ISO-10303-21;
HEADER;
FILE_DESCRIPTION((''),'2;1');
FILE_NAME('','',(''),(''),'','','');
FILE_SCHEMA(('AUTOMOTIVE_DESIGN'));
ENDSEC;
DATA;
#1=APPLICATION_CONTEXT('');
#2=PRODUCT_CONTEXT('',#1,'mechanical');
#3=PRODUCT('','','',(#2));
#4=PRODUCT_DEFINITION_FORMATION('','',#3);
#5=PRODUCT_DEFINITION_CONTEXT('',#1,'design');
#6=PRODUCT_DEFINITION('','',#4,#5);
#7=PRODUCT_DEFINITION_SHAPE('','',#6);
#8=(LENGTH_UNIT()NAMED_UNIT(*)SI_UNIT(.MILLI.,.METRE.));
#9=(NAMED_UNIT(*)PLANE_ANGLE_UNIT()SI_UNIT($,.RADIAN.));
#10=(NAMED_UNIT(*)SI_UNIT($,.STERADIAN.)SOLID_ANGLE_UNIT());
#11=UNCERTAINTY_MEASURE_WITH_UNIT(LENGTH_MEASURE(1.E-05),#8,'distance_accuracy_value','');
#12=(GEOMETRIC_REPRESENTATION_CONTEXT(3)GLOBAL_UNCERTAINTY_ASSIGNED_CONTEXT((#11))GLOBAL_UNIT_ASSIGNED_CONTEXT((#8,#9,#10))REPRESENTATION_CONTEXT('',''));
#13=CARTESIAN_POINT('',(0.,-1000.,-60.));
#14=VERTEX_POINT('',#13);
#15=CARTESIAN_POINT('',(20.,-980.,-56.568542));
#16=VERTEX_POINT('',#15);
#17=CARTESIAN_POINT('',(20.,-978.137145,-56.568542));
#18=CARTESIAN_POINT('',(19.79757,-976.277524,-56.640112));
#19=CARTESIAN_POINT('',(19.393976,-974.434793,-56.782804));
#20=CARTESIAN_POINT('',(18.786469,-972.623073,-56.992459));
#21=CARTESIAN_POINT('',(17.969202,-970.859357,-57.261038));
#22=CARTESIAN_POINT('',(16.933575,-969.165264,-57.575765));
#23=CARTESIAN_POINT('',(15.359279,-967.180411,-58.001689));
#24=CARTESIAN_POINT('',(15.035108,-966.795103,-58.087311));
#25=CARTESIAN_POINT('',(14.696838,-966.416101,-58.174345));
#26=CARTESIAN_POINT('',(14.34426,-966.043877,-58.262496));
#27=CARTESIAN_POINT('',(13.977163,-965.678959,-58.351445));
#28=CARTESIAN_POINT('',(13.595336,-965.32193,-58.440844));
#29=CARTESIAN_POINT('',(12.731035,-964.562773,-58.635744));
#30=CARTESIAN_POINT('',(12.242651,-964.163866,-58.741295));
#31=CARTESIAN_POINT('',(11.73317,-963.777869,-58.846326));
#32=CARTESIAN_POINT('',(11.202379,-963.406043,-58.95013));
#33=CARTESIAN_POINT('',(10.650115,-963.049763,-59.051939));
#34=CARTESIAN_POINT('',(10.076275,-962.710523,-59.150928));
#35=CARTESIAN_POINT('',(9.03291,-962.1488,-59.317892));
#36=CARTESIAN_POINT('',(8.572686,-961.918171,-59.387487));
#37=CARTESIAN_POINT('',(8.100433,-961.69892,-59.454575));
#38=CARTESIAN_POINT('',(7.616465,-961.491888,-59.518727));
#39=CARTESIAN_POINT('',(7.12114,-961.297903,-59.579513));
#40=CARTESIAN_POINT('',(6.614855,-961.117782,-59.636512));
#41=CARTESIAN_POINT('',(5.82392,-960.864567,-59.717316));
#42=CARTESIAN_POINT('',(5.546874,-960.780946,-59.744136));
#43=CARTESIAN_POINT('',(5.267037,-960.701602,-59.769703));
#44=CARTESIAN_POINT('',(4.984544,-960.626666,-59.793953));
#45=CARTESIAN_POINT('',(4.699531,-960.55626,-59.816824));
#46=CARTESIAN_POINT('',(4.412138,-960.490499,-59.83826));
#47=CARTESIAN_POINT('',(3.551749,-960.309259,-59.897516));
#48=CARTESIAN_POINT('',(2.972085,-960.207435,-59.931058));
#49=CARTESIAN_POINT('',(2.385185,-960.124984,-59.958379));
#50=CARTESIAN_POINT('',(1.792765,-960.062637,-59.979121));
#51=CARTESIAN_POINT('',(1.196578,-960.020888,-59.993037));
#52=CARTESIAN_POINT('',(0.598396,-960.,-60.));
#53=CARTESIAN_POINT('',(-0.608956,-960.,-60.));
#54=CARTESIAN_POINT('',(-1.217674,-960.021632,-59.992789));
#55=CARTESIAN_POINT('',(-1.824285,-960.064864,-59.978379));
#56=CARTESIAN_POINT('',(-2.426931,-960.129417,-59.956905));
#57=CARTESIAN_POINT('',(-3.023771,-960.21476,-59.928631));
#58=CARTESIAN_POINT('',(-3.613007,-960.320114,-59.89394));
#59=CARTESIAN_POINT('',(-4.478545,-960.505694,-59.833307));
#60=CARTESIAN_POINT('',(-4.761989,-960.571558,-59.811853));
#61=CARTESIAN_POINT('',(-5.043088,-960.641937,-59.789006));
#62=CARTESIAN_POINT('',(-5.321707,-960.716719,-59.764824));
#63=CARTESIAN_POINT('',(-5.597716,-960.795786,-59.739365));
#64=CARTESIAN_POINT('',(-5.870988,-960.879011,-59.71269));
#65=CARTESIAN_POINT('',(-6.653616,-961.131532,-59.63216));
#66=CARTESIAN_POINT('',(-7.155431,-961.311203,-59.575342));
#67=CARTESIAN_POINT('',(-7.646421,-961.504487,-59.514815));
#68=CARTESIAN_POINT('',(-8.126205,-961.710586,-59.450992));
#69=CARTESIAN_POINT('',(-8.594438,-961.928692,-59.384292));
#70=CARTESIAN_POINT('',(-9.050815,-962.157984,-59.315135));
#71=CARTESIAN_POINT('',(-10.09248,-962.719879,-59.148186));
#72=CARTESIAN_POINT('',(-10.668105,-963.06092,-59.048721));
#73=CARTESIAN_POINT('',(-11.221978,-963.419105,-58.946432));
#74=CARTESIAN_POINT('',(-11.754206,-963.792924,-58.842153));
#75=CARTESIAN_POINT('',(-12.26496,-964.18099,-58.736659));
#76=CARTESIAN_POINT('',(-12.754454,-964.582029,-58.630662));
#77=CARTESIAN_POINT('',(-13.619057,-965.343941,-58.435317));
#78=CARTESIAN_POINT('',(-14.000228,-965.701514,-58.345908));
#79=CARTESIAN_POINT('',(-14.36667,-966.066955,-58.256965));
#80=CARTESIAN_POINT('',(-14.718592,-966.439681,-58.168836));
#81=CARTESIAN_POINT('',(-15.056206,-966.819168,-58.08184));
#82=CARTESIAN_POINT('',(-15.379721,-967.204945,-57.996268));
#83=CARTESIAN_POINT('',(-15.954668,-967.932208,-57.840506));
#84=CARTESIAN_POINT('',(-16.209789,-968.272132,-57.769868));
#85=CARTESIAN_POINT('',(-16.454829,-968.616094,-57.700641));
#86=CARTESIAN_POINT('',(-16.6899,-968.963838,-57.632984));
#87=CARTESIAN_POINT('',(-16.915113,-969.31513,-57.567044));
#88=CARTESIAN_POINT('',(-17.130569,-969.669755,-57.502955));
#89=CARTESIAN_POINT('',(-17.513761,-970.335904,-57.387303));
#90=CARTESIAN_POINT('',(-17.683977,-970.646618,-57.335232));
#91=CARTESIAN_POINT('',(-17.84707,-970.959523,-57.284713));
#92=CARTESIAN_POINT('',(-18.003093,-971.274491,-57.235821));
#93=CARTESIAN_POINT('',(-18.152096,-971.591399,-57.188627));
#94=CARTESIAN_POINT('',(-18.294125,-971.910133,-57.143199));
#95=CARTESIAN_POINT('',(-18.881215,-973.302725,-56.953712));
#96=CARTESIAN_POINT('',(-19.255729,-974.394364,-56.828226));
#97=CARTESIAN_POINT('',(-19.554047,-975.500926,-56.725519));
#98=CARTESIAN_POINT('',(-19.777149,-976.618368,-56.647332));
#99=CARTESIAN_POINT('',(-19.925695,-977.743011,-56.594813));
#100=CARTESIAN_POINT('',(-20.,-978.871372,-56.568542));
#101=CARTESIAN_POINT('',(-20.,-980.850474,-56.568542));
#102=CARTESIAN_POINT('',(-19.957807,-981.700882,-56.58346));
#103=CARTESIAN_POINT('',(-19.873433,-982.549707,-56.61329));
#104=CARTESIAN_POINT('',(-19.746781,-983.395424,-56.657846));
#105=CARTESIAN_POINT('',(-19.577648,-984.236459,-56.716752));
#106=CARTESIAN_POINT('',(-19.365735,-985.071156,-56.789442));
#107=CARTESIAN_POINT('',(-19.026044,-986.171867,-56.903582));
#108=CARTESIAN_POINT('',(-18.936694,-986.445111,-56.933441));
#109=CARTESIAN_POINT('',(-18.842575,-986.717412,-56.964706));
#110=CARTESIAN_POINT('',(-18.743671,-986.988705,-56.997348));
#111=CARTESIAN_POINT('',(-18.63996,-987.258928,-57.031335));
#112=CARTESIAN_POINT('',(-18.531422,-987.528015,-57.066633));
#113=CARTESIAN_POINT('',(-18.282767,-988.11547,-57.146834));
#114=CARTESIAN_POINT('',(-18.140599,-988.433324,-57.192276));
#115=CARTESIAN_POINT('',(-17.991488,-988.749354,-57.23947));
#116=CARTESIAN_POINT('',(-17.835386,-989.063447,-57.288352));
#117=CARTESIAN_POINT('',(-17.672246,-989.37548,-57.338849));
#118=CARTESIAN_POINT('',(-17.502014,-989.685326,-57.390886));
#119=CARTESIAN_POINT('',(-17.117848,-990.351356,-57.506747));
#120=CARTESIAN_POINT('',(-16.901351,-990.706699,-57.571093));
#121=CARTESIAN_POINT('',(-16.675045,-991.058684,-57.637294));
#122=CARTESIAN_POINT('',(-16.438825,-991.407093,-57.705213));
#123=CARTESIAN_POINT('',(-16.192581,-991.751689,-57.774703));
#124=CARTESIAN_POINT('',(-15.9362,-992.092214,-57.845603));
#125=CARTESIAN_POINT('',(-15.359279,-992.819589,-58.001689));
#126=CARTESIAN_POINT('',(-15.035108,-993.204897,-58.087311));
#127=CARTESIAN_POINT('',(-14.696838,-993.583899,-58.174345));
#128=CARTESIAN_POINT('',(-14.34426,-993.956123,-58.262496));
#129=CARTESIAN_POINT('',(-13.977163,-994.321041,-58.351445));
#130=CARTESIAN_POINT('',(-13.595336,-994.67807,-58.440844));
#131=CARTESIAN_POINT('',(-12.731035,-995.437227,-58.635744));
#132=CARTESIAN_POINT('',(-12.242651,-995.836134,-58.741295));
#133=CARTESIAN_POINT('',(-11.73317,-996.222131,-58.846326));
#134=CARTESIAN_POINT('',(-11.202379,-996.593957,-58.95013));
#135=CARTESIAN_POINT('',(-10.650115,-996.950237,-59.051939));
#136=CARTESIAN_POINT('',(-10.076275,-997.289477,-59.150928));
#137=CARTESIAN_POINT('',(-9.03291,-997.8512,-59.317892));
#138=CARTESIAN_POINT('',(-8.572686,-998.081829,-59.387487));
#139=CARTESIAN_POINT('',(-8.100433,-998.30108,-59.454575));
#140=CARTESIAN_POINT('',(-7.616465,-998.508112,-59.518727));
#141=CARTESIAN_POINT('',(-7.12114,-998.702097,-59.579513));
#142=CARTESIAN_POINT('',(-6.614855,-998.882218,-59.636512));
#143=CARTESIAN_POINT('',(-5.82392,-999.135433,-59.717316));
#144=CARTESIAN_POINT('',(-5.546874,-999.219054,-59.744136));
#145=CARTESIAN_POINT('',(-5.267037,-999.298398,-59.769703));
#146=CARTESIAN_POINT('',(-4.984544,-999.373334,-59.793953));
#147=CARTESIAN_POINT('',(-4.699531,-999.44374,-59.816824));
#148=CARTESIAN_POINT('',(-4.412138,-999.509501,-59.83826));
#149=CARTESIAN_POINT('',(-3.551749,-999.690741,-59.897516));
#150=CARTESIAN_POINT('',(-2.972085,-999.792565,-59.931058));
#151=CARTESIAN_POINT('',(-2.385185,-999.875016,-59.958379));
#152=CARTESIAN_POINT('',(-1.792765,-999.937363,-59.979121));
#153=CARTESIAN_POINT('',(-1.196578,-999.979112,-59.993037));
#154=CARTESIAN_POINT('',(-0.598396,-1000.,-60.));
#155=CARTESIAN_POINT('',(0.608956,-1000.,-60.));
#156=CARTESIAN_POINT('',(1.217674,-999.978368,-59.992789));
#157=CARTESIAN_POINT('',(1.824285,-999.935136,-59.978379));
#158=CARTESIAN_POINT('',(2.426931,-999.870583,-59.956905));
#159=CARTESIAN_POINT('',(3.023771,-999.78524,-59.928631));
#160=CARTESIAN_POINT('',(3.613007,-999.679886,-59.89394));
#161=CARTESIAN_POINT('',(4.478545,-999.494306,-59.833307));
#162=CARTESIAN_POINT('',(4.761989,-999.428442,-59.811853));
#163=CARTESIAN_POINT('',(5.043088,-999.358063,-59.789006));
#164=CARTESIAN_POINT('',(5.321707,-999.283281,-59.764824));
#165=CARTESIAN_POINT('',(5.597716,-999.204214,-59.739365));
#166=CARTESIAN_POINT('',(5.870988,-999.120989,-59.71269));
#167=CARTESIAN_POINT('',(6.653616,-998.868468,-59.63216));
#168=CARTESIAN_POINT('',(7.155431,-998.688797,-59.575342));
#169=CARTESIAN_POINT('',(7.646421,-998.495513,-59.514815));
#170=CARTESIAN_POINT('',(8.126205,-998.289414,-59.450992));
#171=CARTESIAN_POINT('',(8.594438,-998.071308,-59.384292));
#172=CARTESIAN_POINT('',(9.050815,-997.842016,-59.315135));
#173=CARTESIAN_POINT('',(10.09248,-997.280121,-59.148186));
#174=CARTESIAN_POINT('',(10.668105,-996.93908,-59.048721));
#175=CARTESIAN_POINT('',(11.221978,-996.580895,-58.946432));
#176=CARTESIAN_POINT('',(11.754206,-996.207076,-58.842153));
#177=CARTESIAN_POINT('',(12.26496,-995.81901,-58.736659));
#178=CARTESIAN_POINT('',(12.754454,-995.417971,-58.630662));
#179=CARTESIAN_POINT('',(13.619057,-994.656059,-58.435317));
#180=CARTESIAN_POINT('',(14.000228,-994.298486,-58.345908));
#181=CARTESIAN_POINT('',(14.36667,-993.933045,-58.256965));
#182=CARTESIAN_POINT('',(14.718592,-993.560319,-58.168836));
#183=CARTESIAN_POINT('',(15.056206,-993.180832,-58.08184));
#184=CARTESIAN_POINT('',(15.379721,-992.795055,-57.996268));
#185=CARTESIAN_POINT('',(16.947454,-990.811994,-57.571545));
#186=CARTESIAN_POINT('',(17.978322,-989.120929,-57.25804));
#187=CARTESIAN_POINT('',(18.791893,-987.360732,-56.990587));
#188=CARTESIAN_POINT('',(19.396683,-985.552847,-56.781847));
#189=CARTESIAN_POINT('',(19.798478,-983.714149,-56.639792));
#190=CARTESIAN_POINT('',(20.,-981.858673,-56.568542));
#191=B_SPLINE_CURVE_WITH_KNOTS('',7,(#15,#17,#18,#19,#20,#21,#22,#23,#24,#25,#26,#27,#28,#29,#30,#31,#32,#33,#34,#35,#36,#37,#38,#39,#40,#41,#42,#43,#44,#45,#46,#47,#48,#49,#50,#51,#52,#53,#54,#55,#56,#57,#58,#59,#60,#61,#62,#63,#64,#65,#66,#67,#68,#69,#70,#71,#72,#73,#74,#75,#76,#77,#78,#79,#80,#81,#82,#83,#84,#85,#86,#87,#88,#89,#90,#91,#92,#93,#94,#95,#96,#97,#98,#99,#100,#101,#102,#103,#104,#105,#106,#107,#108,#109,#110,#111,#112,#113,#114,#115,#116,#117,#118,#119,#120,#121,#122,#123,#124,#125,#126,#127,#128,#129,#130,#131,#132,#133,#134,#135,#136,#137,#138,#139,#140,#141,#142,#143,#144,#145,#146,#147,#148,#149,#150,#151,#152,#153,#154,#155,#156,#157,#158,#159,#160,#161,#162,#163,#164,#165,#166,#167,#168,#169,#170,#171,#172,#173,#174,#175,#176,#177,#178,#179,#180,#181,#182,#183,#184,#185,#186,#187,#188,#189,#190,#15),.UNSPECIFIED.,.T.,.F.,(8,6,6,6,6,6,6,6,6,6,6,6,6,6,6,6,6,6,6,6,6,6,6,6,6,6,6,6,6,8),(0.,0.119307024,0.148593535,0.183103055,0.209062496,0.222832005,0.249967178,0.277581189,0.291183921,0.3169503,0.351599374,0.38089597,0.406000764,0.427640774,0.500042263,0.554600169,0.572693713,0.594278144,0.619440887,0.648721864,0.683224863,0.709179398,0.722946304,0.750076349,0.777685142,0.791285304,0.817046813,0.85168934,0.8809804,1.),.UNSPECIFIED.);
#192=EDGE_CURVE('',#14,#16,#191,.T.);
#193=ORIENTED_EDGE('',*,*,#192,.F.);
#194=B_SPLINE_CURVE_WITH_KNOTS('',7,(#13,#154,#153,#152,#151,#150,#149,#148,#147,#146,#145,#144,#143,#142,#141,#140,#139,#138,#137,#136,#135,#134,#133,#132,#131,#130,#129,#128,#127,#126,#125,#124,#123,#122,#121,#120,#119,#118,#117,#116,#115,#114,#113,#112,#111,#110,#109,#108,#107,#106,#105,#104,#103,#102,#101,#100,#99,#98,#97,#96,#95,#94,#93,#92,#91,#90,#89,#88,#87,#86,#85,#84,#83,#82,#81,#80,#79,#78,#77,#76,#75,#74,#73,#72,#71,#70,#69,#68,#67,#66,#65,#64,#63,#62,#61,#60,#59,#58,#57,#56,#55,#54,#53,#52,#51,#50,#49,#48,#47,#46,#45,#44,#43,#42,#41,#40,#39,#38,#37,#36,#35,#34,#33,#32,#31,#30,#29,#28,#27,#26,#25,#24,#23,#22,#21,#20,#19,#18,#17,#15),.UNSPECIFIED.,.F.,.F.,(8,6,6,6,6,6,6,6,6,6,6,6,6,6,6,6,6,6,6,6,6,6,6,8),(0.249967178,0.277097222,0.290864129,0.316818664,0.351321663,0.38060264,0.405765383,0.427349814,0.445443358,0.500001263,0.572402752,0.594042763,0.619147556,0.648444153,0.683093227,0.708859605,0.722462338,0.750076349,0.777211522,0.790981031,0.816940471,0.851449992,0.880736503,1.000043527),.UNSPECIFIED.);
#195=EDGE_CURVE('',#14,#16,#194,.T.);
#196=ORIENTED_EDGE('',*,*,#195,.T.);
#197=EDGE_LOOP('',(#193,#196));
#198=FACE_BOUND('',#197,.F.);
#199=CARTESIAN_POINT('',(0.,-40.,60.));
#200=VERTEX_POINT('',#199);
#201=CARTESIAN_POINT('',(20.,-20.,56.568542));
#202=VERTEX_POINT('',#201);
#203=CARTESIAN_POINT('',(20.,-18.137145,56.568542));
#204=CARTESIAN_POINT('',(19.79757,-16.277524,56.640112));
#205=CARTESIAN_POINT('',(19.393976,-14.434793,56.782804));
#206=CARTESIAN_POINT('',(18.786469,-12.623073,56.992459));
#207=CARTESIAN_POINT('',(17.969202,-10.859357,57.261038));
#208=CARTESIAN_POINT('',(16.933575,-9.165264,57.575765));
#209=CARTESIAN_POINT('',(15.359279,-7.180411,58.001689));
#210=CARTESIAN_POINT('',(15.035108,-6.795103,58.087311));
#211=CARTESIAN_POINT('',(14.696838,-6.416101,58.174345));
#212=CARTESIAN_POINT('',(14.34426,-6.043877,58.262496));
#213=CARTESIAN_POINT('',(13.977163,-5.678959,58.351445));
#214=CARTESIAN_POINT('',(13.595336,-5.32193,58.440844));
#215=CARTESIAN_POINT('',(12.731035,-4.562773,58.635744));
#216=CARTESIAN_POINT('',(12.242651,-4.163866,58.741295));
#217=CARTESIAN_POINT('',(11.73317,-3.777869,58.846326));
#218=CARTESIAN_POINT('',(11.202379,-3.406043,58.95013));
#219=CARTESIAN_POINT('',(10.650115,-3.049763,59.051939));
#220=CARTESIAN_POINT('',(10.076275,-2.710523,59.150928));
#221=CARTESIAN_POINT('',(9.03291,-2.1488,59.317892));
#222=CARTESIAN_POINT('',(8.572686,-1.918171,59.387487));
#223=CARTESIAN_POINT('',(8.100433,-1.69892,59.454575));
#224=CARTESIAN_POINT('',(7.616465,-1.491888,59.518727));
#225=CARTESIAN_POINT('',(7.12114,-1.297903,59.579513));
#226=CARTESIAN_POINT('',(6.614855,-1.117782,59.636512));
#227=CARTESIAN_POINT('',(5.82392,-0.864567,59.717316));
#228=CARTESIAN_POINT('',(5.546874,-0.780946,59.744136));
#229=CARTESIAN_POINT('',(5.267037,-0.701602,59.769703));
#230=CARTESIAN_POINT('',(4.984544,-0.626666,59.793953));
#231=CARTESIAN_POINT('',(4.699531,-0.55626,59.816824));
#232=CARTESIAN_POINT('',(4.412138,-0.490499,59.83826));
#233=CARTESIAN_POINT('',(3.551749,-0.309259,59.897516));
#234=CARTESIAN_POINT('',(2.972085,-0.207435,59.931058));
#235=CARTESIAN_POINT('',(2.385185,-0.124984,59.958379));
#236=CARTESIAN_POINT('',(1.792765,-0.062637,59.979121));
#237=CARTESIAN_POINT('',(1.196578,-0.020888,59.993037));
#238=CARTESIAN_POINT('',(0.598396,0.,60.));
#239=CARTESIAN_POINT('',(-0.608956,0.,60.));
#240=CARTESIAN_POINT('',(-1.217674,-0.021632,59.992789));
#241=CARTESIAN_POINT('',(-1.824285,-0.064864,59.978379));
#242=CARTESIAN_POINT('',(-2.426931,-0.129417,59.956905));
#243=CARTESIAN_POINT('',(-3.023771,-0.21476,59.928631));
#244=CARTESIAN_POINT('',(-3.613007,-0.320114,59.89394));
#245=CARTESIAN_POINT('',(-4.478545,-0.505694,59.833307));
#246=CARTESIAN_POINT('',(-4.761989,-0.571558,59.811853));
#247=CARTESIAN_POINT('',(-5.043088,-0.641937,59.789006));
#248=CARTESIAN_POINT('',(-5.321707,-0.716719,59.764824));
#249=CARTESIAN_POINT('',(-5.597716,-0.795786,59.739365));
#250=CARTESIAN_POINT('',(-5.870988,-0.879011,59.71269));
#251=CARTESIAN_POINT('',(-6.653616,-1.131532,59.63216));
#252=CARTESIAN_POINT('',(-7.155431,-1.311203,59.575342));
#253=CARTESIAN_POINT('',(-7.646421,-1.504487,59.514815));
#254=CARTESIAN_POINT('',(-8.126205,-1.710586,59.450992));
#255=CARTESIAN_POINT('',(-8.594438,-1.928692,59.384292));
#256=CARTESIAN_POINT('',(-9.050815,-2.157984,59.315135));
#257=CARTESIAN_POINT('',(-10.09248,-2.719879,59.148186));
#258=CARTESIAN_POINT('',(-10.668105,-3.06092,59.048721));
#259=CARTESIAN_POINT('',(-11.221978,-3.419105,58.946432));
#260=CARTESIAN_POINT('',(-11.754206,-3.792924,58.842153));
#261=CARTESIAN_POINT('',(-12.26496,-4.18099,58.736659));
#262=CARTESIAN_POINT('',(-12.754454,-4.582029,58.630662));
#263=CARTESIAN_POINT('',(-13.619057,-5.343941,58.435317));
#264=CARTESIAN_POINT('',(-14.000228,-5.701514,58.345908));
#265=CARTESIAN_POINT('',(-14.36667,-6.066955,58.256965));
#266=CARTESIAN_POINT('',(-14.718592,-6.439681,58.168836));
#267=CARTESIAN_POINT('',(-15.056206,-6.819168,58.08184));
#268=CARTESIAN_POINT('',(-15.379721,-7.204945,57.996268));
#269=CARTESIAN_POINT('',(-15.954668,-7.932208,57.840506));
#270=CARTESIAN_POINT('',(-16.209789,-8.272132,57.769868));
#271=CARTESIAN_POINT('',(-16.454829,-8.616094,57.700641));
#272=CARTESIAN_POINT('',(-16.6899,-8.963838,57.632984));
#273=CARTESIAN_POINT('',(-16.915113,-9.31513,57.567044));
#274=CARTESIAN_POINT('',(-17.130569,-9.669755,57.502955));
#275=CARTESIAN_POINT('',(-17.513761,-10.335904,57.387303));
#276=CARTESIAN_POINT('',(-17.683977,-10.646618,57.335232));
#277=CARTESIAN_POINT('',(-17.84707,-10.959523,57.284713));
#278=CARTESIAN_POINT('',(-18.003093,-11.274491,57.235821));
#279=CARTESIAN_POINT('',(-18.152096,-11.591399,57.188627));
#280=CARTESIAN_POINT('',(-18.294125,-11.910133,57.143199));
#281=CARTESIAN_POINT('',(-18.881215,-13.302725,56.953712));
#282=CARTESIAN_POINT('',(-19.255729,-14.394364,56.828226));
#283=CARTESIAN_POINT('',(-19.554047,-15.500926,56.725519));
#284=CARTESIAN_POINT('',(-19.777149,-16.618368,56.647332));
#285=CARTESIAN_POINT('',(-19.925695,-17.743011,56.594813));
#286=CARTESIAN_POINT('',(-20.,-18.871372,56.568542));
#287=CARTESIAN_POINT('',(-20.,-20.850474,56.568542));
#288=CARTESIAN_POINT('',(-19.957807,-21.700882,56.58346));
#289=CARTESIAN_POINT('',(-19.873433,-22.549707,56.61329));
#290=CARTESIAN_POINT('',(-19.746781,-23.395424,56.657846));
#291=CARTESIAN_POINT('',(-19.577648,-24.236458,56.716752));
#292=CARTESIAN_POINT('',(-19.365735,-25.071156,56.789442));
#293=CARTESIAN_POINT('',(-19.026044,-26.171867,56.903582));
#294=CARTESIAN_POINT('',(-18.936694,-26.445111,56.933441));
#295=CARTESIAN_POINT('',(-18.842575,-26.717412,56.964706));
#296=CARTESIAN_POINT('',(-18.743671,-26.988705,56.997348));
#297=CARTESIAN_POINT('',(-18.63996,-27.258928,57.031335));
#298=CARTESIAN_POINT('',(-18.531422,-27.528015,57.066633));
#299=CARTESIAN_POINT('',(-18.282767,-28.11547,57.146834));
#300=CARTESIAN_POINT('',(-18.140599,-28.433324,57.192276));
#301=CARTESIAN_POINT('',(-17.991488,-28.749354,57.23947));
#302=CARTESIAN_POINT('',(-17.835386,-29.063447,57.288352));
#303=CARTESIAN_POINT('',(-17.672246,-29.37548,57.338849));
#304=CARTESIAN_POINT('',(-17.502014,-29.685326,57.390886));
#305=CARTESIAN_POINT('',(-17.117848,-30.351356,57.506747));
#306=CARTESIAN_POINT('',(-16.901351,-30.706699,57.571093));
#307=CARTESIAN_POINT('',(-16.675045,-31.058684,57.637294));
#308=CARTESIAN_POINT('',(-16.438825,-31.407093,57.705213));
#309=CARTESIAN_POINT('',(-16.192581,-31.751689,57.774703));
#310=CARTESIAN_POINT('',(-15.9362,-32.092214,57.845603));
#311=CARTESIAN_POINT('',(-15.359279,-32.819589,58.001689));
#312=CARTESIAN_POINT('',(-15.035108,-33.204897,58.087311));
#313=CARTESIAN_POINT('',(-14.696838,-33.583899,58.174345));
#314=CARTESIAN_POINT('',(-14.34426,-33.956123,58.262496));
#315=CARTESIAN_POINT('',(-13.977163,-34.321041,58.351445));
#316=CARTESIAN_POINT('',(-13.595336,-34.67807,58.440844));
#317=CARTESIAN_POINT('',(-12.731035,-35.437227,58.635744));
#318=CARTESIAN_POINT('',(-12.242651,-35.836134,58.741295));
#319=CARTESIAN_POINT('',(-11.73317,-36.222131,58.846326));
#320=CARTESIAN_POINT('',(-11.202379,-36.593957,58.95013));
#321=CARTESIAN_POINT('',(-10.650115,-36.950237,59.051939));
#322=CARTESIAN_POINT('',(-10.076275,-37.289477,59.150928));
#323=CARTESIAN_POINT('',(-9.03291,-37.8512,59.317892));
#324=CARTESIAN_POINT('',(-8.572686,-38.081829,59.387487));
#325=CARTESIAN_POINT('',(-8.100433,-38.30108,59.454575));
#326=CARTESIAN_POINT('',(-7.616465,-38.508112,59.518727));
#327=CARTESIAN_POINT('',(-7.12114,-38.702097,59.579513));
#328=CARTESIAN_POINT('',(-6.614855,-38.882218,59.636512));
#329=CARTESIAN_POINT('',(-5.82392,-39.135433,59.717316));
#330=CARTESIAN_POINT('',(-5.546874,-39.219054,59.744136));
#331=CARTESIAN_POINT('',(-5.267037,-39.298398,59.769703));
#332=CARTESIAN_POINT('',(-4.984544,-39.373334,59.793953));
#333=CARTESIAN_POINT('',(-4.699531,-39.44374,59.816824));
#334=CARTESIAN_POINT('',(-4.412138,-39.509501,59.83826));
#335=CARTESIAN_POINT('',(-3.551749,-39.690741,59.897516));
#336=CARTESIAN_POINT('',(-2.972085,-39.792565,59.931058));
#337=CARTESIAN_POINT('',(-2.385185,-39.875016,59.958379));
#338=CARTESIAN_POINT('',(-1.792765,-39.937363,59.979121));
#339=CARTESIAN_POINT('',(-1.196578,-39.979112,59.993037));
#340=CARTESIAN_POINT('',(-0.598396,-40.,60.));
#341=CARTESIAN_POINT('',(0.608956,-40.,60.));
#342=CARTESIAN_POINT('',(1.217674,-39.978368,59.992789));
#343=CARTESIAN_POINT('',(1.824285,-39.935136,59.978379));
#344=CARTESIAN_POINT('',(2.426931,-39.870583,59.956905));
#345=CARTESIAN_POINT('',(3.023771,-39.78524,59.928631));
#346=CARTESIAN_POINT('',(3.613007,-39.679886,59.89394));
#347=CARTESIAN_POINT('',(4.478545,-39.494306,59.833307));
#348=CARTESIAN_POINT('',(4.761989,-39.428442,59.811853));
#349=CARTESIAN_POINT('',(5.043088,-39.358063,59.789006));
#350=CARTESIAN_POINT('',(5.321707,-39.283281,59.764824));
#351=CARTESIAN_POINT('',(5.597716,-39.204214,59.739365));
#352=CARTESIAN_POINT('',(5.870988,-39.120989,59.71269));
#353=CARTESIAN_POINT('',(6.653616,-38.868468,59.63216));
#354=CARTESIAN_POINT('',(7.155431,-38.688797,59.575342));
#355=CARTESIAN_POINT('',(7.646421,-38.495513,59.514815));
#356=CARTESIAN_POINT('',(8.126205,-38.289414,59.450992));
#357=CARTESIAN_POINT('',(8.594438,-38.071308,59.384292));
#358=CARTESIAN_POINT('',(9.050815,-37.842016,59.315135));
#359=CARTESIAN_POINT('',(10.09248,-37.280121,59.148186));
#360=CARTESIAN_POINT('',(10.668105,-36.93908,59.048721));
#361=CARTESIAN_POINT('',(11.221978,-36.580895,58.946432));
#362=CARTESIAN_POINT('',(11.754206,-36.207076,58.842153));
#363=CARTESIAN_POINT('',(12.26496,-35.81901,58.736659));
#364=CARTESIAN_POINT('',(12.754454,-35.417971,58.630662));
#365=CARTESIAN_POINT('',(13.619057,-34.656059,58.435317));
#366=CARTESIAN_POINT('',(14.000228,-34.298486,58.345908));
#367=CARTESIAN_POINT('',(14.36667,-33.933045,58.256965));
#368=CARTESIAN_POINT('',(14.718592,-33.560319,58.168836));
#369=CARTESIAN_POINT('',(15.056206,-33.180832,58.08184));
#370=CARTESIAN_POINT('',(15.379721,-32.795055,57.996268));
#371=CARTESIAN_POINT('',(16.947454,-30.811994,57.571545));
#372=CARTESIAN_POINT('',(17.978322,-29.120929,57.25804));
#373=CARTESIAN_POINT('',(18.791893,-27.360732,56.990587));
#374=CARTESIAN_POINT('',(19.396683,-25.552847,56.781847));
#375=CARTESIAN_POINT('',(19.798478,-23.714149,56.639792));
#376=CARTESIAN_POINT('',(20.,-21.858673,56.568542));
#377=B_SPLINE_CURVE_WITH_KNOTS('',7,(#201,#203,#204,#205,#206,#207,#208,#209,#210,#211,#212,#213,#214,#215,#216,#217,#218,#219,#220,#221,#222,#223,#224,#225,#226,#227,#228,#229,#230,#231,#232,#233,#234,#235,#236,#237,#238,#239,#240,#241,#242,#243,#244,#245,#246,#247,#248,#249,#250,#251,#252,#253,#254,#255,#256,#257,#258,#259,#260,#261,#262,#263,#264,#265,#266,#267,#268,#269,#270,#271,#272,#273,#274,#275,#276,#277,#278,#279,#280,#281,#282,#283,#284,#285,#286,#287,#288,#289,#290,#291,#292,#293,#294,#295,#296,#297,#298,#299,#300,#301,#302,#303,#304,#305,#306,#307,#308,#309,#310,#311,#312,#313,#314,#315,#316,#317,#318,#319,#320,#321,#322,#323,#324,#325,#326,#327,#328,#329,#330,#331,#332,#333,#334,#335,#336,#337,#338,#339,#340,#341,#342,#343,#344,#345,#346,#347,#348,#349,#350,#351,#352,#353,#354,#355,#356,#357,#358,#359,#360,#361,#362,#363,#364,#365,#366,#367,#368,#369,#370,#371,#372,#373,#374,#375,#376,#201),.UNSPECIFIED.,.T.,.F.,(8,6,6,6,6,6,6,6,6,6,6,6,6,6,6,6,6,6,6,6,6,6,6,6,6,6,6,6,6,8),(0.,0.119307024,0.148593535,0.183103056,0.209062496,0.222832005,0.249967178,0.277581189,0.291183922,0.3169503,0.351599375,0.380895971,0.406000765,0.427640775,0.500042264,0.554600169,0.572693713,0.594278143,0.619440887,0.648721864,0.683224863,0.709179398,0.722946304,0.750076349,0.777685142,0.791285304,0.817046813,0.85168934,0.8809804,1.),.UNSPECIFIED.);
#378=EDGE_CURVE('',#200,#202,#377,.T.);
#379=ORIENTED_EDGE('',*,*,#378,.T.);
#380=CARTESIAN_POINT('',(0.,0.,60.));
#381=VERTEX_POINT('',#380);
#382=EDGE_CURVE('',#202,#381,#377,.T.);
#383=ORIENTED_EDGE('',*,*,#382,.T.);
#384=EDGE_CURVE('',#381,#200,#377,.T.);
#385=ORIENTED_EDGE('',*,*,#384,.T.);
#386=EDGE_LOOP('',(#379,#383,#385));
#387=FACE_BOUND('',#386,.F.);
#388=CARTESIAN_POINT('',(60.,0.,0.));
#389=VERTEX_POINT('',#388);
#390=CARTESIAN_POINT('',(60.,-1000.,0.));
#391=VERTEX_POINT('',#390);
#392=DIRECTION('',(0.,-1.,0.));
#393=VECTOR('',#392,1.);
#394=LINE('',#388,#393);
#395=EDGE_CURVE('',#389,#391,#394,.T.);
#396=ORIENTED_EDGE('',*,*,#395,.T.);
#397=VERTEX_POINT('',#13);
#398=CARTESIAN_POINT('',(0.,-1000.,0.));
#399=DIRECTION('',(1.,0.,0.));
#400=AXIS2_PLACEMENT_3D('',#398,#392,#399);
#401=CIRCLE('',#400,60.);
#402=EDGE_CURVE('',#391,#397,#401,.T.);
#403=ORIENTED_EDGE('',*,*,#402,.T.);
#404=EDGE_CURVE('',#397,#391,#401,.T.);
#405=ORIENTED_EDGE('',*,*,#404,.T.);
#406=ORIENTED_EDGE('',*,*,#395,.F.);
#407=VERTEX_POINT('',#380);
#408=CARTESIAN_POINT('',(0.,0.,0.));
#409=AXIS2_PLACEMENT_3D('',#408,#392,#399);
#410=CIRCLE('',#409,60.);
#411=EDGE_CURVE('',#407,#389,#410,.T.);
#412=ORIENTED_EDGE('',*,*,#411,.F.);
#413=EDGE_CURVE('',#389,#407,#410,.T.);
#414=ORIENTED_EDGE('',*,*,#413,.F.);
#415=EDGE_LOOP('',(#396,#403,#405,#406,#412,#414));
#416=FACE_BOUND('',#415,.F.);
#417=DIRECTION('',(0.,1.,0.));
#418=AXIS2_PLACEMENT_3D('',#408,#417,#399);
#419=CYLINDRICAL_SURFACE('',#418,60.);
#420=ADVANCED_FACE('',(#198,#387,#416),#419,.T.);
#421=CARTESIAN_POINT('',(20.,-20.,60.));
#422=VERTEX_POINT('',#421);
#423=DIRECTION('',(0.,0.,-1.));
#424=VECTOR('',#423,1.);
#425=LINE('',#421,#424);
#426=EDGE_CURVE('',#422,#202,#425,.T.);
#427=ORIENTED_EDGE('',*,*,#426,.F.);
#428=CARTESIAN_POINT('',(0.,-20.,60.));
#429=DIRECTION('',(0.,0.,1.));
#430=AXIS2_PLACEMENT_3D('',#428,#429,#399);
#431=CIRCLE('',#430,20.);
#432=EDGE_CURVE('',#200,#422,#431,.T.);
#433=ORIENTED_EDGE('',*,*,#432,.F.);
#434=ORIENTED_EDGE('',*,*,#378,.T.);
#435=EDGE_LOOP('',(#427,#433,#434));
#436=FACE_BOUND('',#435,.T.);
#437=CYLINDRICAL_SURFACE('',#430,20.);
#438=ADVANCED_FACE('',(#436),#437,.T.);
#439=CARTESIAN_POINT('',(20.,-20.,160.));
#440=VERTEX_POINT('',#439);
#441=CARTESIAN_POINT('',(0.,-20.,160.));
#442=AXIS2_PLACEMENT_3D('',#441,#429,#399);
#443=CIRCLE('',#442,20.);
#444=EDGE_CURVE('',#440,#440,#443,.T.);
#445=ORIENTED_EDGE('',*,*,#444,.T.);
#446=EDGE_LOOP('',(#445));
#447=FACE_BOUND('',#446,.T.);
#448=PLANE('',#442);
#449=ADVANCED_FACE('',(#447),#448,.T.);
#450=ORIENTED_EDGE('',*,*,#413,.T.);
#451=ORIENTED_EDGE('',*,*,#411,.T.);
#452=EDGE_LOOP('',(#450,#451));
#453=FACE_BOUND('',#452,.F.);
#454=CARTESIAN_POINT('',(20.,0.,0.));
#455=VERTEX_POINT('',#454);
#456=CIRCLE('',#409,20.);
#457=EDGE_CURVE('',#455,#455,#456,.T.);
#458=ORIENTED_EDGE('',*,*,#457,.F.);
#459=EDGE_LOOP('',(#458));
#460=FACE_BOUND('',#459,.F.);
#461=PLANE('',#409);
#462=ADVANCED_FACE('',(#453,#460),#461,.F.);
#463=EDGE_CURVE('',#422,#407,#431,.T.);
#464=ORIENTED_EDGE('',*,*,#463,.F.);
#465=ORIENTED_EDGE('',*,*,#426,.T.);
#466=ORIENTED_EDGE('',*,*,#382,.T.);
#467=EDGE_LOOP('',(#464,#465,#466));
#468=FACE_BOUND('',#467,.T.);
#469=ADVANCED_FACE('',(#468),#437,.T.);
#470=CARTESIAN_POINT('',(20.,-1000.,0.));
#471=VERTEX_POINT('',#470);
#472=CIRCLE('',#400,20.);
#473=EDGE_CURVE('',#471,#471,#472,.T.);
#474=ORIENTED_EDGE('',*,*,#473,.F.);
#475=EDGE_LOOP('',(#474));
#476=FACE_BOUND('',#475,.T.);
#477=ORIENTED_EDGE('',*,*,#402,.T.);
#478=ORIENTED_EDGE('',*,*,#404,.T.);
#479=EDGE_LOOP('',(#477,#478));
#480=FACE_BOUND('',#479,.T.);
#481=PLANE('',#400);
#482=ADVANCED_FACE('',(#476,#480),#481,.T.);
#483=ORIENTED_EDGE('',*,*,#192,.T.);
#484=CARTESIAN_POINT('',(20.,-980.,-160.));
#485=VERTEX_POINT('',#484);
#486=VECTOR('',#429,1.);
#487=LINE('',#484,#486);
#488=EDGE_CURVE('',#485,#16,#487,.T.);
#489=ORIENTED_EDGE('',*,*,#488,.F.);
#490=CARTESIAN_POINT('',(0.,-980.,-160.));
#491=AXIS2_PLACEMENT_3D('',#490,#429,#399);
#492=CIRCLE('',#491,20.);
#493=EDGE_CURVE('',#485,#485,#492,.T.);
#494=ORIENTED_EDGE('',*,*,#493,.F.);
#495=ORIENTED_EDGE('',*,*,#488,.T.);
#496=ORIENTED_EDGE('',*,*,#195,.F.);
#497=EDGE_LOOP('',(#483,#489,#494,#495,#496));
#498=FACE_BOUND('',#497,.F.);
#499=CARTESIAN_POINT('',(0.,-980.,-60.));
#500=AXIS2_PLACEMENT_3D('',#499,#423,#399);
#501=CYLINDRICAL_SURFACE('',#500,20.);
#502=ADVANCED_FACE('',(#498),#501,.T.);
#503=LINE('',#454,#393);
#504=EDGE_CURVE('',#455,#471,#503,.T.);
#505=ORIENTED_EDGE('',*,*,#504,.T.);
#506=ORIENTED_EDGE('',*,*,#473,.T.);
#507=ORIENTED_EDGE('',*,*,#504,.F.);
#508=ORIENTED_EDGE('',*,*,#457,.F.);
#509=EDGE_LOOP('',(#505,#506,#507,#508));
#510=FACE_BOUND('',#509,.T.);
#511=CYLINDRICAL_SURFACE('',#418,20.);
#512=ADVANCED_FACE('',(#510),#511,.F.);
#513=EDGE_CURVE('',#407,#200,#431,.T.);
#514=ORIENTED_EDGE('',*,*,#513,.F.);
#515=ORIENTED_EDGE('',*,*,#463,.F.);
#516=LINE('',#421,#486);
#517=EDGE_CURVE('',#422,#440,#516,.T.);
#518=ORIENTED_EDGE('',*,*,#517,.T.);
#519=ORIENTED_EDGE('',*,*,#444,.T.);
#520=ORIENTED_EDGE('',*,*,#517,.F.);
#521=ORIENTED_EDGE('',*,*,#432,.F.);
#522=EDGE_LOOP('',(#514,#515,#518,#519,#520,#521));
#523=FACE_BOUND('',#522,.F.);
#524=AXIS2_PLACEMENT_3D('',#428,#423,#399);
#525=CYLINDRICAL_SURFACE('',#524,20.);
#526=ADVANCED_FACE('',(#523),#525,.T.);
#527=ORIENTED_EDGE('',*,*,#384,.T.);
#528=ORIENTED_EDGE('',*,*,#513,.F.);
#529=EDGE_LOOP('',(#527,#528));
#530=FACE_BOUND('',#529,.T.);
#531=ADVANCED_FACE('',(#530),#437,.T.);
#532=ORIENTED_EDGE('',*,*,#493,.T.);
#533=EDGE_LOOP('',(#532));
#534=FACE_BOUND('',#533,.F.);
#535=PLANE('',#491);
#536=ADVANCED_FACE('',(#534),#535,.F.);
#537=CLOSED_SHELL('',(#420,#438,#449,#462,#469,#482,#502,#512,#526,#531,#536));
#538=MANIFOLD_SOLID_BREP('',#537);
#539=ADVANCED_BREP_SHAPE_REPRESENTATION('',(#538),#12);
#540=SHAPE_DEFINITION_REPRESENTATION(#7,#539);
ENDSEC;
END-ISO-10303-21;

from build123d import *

# Parameters (mm, degrees)
F0_R          = 60
F0_R_2        = 20
F1_DEPTH      = 1000
F3_R          = 20
F4_DEPTH      = 100
F4_DEPTH_BACK = 7
F6_R          = 20
F7_DEPTH      = 100
F7_DEPTH_BACK = 7


with BuildPart() as f1:
    # F0 (on Front) → F1 (new body)
    with BuildSketch(Plane.XZ):
        Circle(F0_R)
        Circle(F0_R_2, mode=Mode.SUBTRACT)
    extrude(amount=F1_DEPTH)

    # F3 (on offset) → F4 (join, two sides)
    with BuildSketch(Plane.XY.offset(60)) as f4_sk:
        with Locations((0, -20)):
            Circle(F3_R)
    extrude(amount=F4_DEPTH)
    extrude(f4_sk.sketch, amount=-F4_DEPTH_BACK)

    # F6 (on offset) → F7 (join, two sides)
    with BuildSketch(Plane.XY.offset(-60)) as f7_sk:
        with Locations((0, -980)):
            Circle(F6_R)
    extrude(amount=-F7_DEPTH)
    extrude(f7_sk.sketch, amount=F7_DEPTH_BACK)


solid = f1.part
